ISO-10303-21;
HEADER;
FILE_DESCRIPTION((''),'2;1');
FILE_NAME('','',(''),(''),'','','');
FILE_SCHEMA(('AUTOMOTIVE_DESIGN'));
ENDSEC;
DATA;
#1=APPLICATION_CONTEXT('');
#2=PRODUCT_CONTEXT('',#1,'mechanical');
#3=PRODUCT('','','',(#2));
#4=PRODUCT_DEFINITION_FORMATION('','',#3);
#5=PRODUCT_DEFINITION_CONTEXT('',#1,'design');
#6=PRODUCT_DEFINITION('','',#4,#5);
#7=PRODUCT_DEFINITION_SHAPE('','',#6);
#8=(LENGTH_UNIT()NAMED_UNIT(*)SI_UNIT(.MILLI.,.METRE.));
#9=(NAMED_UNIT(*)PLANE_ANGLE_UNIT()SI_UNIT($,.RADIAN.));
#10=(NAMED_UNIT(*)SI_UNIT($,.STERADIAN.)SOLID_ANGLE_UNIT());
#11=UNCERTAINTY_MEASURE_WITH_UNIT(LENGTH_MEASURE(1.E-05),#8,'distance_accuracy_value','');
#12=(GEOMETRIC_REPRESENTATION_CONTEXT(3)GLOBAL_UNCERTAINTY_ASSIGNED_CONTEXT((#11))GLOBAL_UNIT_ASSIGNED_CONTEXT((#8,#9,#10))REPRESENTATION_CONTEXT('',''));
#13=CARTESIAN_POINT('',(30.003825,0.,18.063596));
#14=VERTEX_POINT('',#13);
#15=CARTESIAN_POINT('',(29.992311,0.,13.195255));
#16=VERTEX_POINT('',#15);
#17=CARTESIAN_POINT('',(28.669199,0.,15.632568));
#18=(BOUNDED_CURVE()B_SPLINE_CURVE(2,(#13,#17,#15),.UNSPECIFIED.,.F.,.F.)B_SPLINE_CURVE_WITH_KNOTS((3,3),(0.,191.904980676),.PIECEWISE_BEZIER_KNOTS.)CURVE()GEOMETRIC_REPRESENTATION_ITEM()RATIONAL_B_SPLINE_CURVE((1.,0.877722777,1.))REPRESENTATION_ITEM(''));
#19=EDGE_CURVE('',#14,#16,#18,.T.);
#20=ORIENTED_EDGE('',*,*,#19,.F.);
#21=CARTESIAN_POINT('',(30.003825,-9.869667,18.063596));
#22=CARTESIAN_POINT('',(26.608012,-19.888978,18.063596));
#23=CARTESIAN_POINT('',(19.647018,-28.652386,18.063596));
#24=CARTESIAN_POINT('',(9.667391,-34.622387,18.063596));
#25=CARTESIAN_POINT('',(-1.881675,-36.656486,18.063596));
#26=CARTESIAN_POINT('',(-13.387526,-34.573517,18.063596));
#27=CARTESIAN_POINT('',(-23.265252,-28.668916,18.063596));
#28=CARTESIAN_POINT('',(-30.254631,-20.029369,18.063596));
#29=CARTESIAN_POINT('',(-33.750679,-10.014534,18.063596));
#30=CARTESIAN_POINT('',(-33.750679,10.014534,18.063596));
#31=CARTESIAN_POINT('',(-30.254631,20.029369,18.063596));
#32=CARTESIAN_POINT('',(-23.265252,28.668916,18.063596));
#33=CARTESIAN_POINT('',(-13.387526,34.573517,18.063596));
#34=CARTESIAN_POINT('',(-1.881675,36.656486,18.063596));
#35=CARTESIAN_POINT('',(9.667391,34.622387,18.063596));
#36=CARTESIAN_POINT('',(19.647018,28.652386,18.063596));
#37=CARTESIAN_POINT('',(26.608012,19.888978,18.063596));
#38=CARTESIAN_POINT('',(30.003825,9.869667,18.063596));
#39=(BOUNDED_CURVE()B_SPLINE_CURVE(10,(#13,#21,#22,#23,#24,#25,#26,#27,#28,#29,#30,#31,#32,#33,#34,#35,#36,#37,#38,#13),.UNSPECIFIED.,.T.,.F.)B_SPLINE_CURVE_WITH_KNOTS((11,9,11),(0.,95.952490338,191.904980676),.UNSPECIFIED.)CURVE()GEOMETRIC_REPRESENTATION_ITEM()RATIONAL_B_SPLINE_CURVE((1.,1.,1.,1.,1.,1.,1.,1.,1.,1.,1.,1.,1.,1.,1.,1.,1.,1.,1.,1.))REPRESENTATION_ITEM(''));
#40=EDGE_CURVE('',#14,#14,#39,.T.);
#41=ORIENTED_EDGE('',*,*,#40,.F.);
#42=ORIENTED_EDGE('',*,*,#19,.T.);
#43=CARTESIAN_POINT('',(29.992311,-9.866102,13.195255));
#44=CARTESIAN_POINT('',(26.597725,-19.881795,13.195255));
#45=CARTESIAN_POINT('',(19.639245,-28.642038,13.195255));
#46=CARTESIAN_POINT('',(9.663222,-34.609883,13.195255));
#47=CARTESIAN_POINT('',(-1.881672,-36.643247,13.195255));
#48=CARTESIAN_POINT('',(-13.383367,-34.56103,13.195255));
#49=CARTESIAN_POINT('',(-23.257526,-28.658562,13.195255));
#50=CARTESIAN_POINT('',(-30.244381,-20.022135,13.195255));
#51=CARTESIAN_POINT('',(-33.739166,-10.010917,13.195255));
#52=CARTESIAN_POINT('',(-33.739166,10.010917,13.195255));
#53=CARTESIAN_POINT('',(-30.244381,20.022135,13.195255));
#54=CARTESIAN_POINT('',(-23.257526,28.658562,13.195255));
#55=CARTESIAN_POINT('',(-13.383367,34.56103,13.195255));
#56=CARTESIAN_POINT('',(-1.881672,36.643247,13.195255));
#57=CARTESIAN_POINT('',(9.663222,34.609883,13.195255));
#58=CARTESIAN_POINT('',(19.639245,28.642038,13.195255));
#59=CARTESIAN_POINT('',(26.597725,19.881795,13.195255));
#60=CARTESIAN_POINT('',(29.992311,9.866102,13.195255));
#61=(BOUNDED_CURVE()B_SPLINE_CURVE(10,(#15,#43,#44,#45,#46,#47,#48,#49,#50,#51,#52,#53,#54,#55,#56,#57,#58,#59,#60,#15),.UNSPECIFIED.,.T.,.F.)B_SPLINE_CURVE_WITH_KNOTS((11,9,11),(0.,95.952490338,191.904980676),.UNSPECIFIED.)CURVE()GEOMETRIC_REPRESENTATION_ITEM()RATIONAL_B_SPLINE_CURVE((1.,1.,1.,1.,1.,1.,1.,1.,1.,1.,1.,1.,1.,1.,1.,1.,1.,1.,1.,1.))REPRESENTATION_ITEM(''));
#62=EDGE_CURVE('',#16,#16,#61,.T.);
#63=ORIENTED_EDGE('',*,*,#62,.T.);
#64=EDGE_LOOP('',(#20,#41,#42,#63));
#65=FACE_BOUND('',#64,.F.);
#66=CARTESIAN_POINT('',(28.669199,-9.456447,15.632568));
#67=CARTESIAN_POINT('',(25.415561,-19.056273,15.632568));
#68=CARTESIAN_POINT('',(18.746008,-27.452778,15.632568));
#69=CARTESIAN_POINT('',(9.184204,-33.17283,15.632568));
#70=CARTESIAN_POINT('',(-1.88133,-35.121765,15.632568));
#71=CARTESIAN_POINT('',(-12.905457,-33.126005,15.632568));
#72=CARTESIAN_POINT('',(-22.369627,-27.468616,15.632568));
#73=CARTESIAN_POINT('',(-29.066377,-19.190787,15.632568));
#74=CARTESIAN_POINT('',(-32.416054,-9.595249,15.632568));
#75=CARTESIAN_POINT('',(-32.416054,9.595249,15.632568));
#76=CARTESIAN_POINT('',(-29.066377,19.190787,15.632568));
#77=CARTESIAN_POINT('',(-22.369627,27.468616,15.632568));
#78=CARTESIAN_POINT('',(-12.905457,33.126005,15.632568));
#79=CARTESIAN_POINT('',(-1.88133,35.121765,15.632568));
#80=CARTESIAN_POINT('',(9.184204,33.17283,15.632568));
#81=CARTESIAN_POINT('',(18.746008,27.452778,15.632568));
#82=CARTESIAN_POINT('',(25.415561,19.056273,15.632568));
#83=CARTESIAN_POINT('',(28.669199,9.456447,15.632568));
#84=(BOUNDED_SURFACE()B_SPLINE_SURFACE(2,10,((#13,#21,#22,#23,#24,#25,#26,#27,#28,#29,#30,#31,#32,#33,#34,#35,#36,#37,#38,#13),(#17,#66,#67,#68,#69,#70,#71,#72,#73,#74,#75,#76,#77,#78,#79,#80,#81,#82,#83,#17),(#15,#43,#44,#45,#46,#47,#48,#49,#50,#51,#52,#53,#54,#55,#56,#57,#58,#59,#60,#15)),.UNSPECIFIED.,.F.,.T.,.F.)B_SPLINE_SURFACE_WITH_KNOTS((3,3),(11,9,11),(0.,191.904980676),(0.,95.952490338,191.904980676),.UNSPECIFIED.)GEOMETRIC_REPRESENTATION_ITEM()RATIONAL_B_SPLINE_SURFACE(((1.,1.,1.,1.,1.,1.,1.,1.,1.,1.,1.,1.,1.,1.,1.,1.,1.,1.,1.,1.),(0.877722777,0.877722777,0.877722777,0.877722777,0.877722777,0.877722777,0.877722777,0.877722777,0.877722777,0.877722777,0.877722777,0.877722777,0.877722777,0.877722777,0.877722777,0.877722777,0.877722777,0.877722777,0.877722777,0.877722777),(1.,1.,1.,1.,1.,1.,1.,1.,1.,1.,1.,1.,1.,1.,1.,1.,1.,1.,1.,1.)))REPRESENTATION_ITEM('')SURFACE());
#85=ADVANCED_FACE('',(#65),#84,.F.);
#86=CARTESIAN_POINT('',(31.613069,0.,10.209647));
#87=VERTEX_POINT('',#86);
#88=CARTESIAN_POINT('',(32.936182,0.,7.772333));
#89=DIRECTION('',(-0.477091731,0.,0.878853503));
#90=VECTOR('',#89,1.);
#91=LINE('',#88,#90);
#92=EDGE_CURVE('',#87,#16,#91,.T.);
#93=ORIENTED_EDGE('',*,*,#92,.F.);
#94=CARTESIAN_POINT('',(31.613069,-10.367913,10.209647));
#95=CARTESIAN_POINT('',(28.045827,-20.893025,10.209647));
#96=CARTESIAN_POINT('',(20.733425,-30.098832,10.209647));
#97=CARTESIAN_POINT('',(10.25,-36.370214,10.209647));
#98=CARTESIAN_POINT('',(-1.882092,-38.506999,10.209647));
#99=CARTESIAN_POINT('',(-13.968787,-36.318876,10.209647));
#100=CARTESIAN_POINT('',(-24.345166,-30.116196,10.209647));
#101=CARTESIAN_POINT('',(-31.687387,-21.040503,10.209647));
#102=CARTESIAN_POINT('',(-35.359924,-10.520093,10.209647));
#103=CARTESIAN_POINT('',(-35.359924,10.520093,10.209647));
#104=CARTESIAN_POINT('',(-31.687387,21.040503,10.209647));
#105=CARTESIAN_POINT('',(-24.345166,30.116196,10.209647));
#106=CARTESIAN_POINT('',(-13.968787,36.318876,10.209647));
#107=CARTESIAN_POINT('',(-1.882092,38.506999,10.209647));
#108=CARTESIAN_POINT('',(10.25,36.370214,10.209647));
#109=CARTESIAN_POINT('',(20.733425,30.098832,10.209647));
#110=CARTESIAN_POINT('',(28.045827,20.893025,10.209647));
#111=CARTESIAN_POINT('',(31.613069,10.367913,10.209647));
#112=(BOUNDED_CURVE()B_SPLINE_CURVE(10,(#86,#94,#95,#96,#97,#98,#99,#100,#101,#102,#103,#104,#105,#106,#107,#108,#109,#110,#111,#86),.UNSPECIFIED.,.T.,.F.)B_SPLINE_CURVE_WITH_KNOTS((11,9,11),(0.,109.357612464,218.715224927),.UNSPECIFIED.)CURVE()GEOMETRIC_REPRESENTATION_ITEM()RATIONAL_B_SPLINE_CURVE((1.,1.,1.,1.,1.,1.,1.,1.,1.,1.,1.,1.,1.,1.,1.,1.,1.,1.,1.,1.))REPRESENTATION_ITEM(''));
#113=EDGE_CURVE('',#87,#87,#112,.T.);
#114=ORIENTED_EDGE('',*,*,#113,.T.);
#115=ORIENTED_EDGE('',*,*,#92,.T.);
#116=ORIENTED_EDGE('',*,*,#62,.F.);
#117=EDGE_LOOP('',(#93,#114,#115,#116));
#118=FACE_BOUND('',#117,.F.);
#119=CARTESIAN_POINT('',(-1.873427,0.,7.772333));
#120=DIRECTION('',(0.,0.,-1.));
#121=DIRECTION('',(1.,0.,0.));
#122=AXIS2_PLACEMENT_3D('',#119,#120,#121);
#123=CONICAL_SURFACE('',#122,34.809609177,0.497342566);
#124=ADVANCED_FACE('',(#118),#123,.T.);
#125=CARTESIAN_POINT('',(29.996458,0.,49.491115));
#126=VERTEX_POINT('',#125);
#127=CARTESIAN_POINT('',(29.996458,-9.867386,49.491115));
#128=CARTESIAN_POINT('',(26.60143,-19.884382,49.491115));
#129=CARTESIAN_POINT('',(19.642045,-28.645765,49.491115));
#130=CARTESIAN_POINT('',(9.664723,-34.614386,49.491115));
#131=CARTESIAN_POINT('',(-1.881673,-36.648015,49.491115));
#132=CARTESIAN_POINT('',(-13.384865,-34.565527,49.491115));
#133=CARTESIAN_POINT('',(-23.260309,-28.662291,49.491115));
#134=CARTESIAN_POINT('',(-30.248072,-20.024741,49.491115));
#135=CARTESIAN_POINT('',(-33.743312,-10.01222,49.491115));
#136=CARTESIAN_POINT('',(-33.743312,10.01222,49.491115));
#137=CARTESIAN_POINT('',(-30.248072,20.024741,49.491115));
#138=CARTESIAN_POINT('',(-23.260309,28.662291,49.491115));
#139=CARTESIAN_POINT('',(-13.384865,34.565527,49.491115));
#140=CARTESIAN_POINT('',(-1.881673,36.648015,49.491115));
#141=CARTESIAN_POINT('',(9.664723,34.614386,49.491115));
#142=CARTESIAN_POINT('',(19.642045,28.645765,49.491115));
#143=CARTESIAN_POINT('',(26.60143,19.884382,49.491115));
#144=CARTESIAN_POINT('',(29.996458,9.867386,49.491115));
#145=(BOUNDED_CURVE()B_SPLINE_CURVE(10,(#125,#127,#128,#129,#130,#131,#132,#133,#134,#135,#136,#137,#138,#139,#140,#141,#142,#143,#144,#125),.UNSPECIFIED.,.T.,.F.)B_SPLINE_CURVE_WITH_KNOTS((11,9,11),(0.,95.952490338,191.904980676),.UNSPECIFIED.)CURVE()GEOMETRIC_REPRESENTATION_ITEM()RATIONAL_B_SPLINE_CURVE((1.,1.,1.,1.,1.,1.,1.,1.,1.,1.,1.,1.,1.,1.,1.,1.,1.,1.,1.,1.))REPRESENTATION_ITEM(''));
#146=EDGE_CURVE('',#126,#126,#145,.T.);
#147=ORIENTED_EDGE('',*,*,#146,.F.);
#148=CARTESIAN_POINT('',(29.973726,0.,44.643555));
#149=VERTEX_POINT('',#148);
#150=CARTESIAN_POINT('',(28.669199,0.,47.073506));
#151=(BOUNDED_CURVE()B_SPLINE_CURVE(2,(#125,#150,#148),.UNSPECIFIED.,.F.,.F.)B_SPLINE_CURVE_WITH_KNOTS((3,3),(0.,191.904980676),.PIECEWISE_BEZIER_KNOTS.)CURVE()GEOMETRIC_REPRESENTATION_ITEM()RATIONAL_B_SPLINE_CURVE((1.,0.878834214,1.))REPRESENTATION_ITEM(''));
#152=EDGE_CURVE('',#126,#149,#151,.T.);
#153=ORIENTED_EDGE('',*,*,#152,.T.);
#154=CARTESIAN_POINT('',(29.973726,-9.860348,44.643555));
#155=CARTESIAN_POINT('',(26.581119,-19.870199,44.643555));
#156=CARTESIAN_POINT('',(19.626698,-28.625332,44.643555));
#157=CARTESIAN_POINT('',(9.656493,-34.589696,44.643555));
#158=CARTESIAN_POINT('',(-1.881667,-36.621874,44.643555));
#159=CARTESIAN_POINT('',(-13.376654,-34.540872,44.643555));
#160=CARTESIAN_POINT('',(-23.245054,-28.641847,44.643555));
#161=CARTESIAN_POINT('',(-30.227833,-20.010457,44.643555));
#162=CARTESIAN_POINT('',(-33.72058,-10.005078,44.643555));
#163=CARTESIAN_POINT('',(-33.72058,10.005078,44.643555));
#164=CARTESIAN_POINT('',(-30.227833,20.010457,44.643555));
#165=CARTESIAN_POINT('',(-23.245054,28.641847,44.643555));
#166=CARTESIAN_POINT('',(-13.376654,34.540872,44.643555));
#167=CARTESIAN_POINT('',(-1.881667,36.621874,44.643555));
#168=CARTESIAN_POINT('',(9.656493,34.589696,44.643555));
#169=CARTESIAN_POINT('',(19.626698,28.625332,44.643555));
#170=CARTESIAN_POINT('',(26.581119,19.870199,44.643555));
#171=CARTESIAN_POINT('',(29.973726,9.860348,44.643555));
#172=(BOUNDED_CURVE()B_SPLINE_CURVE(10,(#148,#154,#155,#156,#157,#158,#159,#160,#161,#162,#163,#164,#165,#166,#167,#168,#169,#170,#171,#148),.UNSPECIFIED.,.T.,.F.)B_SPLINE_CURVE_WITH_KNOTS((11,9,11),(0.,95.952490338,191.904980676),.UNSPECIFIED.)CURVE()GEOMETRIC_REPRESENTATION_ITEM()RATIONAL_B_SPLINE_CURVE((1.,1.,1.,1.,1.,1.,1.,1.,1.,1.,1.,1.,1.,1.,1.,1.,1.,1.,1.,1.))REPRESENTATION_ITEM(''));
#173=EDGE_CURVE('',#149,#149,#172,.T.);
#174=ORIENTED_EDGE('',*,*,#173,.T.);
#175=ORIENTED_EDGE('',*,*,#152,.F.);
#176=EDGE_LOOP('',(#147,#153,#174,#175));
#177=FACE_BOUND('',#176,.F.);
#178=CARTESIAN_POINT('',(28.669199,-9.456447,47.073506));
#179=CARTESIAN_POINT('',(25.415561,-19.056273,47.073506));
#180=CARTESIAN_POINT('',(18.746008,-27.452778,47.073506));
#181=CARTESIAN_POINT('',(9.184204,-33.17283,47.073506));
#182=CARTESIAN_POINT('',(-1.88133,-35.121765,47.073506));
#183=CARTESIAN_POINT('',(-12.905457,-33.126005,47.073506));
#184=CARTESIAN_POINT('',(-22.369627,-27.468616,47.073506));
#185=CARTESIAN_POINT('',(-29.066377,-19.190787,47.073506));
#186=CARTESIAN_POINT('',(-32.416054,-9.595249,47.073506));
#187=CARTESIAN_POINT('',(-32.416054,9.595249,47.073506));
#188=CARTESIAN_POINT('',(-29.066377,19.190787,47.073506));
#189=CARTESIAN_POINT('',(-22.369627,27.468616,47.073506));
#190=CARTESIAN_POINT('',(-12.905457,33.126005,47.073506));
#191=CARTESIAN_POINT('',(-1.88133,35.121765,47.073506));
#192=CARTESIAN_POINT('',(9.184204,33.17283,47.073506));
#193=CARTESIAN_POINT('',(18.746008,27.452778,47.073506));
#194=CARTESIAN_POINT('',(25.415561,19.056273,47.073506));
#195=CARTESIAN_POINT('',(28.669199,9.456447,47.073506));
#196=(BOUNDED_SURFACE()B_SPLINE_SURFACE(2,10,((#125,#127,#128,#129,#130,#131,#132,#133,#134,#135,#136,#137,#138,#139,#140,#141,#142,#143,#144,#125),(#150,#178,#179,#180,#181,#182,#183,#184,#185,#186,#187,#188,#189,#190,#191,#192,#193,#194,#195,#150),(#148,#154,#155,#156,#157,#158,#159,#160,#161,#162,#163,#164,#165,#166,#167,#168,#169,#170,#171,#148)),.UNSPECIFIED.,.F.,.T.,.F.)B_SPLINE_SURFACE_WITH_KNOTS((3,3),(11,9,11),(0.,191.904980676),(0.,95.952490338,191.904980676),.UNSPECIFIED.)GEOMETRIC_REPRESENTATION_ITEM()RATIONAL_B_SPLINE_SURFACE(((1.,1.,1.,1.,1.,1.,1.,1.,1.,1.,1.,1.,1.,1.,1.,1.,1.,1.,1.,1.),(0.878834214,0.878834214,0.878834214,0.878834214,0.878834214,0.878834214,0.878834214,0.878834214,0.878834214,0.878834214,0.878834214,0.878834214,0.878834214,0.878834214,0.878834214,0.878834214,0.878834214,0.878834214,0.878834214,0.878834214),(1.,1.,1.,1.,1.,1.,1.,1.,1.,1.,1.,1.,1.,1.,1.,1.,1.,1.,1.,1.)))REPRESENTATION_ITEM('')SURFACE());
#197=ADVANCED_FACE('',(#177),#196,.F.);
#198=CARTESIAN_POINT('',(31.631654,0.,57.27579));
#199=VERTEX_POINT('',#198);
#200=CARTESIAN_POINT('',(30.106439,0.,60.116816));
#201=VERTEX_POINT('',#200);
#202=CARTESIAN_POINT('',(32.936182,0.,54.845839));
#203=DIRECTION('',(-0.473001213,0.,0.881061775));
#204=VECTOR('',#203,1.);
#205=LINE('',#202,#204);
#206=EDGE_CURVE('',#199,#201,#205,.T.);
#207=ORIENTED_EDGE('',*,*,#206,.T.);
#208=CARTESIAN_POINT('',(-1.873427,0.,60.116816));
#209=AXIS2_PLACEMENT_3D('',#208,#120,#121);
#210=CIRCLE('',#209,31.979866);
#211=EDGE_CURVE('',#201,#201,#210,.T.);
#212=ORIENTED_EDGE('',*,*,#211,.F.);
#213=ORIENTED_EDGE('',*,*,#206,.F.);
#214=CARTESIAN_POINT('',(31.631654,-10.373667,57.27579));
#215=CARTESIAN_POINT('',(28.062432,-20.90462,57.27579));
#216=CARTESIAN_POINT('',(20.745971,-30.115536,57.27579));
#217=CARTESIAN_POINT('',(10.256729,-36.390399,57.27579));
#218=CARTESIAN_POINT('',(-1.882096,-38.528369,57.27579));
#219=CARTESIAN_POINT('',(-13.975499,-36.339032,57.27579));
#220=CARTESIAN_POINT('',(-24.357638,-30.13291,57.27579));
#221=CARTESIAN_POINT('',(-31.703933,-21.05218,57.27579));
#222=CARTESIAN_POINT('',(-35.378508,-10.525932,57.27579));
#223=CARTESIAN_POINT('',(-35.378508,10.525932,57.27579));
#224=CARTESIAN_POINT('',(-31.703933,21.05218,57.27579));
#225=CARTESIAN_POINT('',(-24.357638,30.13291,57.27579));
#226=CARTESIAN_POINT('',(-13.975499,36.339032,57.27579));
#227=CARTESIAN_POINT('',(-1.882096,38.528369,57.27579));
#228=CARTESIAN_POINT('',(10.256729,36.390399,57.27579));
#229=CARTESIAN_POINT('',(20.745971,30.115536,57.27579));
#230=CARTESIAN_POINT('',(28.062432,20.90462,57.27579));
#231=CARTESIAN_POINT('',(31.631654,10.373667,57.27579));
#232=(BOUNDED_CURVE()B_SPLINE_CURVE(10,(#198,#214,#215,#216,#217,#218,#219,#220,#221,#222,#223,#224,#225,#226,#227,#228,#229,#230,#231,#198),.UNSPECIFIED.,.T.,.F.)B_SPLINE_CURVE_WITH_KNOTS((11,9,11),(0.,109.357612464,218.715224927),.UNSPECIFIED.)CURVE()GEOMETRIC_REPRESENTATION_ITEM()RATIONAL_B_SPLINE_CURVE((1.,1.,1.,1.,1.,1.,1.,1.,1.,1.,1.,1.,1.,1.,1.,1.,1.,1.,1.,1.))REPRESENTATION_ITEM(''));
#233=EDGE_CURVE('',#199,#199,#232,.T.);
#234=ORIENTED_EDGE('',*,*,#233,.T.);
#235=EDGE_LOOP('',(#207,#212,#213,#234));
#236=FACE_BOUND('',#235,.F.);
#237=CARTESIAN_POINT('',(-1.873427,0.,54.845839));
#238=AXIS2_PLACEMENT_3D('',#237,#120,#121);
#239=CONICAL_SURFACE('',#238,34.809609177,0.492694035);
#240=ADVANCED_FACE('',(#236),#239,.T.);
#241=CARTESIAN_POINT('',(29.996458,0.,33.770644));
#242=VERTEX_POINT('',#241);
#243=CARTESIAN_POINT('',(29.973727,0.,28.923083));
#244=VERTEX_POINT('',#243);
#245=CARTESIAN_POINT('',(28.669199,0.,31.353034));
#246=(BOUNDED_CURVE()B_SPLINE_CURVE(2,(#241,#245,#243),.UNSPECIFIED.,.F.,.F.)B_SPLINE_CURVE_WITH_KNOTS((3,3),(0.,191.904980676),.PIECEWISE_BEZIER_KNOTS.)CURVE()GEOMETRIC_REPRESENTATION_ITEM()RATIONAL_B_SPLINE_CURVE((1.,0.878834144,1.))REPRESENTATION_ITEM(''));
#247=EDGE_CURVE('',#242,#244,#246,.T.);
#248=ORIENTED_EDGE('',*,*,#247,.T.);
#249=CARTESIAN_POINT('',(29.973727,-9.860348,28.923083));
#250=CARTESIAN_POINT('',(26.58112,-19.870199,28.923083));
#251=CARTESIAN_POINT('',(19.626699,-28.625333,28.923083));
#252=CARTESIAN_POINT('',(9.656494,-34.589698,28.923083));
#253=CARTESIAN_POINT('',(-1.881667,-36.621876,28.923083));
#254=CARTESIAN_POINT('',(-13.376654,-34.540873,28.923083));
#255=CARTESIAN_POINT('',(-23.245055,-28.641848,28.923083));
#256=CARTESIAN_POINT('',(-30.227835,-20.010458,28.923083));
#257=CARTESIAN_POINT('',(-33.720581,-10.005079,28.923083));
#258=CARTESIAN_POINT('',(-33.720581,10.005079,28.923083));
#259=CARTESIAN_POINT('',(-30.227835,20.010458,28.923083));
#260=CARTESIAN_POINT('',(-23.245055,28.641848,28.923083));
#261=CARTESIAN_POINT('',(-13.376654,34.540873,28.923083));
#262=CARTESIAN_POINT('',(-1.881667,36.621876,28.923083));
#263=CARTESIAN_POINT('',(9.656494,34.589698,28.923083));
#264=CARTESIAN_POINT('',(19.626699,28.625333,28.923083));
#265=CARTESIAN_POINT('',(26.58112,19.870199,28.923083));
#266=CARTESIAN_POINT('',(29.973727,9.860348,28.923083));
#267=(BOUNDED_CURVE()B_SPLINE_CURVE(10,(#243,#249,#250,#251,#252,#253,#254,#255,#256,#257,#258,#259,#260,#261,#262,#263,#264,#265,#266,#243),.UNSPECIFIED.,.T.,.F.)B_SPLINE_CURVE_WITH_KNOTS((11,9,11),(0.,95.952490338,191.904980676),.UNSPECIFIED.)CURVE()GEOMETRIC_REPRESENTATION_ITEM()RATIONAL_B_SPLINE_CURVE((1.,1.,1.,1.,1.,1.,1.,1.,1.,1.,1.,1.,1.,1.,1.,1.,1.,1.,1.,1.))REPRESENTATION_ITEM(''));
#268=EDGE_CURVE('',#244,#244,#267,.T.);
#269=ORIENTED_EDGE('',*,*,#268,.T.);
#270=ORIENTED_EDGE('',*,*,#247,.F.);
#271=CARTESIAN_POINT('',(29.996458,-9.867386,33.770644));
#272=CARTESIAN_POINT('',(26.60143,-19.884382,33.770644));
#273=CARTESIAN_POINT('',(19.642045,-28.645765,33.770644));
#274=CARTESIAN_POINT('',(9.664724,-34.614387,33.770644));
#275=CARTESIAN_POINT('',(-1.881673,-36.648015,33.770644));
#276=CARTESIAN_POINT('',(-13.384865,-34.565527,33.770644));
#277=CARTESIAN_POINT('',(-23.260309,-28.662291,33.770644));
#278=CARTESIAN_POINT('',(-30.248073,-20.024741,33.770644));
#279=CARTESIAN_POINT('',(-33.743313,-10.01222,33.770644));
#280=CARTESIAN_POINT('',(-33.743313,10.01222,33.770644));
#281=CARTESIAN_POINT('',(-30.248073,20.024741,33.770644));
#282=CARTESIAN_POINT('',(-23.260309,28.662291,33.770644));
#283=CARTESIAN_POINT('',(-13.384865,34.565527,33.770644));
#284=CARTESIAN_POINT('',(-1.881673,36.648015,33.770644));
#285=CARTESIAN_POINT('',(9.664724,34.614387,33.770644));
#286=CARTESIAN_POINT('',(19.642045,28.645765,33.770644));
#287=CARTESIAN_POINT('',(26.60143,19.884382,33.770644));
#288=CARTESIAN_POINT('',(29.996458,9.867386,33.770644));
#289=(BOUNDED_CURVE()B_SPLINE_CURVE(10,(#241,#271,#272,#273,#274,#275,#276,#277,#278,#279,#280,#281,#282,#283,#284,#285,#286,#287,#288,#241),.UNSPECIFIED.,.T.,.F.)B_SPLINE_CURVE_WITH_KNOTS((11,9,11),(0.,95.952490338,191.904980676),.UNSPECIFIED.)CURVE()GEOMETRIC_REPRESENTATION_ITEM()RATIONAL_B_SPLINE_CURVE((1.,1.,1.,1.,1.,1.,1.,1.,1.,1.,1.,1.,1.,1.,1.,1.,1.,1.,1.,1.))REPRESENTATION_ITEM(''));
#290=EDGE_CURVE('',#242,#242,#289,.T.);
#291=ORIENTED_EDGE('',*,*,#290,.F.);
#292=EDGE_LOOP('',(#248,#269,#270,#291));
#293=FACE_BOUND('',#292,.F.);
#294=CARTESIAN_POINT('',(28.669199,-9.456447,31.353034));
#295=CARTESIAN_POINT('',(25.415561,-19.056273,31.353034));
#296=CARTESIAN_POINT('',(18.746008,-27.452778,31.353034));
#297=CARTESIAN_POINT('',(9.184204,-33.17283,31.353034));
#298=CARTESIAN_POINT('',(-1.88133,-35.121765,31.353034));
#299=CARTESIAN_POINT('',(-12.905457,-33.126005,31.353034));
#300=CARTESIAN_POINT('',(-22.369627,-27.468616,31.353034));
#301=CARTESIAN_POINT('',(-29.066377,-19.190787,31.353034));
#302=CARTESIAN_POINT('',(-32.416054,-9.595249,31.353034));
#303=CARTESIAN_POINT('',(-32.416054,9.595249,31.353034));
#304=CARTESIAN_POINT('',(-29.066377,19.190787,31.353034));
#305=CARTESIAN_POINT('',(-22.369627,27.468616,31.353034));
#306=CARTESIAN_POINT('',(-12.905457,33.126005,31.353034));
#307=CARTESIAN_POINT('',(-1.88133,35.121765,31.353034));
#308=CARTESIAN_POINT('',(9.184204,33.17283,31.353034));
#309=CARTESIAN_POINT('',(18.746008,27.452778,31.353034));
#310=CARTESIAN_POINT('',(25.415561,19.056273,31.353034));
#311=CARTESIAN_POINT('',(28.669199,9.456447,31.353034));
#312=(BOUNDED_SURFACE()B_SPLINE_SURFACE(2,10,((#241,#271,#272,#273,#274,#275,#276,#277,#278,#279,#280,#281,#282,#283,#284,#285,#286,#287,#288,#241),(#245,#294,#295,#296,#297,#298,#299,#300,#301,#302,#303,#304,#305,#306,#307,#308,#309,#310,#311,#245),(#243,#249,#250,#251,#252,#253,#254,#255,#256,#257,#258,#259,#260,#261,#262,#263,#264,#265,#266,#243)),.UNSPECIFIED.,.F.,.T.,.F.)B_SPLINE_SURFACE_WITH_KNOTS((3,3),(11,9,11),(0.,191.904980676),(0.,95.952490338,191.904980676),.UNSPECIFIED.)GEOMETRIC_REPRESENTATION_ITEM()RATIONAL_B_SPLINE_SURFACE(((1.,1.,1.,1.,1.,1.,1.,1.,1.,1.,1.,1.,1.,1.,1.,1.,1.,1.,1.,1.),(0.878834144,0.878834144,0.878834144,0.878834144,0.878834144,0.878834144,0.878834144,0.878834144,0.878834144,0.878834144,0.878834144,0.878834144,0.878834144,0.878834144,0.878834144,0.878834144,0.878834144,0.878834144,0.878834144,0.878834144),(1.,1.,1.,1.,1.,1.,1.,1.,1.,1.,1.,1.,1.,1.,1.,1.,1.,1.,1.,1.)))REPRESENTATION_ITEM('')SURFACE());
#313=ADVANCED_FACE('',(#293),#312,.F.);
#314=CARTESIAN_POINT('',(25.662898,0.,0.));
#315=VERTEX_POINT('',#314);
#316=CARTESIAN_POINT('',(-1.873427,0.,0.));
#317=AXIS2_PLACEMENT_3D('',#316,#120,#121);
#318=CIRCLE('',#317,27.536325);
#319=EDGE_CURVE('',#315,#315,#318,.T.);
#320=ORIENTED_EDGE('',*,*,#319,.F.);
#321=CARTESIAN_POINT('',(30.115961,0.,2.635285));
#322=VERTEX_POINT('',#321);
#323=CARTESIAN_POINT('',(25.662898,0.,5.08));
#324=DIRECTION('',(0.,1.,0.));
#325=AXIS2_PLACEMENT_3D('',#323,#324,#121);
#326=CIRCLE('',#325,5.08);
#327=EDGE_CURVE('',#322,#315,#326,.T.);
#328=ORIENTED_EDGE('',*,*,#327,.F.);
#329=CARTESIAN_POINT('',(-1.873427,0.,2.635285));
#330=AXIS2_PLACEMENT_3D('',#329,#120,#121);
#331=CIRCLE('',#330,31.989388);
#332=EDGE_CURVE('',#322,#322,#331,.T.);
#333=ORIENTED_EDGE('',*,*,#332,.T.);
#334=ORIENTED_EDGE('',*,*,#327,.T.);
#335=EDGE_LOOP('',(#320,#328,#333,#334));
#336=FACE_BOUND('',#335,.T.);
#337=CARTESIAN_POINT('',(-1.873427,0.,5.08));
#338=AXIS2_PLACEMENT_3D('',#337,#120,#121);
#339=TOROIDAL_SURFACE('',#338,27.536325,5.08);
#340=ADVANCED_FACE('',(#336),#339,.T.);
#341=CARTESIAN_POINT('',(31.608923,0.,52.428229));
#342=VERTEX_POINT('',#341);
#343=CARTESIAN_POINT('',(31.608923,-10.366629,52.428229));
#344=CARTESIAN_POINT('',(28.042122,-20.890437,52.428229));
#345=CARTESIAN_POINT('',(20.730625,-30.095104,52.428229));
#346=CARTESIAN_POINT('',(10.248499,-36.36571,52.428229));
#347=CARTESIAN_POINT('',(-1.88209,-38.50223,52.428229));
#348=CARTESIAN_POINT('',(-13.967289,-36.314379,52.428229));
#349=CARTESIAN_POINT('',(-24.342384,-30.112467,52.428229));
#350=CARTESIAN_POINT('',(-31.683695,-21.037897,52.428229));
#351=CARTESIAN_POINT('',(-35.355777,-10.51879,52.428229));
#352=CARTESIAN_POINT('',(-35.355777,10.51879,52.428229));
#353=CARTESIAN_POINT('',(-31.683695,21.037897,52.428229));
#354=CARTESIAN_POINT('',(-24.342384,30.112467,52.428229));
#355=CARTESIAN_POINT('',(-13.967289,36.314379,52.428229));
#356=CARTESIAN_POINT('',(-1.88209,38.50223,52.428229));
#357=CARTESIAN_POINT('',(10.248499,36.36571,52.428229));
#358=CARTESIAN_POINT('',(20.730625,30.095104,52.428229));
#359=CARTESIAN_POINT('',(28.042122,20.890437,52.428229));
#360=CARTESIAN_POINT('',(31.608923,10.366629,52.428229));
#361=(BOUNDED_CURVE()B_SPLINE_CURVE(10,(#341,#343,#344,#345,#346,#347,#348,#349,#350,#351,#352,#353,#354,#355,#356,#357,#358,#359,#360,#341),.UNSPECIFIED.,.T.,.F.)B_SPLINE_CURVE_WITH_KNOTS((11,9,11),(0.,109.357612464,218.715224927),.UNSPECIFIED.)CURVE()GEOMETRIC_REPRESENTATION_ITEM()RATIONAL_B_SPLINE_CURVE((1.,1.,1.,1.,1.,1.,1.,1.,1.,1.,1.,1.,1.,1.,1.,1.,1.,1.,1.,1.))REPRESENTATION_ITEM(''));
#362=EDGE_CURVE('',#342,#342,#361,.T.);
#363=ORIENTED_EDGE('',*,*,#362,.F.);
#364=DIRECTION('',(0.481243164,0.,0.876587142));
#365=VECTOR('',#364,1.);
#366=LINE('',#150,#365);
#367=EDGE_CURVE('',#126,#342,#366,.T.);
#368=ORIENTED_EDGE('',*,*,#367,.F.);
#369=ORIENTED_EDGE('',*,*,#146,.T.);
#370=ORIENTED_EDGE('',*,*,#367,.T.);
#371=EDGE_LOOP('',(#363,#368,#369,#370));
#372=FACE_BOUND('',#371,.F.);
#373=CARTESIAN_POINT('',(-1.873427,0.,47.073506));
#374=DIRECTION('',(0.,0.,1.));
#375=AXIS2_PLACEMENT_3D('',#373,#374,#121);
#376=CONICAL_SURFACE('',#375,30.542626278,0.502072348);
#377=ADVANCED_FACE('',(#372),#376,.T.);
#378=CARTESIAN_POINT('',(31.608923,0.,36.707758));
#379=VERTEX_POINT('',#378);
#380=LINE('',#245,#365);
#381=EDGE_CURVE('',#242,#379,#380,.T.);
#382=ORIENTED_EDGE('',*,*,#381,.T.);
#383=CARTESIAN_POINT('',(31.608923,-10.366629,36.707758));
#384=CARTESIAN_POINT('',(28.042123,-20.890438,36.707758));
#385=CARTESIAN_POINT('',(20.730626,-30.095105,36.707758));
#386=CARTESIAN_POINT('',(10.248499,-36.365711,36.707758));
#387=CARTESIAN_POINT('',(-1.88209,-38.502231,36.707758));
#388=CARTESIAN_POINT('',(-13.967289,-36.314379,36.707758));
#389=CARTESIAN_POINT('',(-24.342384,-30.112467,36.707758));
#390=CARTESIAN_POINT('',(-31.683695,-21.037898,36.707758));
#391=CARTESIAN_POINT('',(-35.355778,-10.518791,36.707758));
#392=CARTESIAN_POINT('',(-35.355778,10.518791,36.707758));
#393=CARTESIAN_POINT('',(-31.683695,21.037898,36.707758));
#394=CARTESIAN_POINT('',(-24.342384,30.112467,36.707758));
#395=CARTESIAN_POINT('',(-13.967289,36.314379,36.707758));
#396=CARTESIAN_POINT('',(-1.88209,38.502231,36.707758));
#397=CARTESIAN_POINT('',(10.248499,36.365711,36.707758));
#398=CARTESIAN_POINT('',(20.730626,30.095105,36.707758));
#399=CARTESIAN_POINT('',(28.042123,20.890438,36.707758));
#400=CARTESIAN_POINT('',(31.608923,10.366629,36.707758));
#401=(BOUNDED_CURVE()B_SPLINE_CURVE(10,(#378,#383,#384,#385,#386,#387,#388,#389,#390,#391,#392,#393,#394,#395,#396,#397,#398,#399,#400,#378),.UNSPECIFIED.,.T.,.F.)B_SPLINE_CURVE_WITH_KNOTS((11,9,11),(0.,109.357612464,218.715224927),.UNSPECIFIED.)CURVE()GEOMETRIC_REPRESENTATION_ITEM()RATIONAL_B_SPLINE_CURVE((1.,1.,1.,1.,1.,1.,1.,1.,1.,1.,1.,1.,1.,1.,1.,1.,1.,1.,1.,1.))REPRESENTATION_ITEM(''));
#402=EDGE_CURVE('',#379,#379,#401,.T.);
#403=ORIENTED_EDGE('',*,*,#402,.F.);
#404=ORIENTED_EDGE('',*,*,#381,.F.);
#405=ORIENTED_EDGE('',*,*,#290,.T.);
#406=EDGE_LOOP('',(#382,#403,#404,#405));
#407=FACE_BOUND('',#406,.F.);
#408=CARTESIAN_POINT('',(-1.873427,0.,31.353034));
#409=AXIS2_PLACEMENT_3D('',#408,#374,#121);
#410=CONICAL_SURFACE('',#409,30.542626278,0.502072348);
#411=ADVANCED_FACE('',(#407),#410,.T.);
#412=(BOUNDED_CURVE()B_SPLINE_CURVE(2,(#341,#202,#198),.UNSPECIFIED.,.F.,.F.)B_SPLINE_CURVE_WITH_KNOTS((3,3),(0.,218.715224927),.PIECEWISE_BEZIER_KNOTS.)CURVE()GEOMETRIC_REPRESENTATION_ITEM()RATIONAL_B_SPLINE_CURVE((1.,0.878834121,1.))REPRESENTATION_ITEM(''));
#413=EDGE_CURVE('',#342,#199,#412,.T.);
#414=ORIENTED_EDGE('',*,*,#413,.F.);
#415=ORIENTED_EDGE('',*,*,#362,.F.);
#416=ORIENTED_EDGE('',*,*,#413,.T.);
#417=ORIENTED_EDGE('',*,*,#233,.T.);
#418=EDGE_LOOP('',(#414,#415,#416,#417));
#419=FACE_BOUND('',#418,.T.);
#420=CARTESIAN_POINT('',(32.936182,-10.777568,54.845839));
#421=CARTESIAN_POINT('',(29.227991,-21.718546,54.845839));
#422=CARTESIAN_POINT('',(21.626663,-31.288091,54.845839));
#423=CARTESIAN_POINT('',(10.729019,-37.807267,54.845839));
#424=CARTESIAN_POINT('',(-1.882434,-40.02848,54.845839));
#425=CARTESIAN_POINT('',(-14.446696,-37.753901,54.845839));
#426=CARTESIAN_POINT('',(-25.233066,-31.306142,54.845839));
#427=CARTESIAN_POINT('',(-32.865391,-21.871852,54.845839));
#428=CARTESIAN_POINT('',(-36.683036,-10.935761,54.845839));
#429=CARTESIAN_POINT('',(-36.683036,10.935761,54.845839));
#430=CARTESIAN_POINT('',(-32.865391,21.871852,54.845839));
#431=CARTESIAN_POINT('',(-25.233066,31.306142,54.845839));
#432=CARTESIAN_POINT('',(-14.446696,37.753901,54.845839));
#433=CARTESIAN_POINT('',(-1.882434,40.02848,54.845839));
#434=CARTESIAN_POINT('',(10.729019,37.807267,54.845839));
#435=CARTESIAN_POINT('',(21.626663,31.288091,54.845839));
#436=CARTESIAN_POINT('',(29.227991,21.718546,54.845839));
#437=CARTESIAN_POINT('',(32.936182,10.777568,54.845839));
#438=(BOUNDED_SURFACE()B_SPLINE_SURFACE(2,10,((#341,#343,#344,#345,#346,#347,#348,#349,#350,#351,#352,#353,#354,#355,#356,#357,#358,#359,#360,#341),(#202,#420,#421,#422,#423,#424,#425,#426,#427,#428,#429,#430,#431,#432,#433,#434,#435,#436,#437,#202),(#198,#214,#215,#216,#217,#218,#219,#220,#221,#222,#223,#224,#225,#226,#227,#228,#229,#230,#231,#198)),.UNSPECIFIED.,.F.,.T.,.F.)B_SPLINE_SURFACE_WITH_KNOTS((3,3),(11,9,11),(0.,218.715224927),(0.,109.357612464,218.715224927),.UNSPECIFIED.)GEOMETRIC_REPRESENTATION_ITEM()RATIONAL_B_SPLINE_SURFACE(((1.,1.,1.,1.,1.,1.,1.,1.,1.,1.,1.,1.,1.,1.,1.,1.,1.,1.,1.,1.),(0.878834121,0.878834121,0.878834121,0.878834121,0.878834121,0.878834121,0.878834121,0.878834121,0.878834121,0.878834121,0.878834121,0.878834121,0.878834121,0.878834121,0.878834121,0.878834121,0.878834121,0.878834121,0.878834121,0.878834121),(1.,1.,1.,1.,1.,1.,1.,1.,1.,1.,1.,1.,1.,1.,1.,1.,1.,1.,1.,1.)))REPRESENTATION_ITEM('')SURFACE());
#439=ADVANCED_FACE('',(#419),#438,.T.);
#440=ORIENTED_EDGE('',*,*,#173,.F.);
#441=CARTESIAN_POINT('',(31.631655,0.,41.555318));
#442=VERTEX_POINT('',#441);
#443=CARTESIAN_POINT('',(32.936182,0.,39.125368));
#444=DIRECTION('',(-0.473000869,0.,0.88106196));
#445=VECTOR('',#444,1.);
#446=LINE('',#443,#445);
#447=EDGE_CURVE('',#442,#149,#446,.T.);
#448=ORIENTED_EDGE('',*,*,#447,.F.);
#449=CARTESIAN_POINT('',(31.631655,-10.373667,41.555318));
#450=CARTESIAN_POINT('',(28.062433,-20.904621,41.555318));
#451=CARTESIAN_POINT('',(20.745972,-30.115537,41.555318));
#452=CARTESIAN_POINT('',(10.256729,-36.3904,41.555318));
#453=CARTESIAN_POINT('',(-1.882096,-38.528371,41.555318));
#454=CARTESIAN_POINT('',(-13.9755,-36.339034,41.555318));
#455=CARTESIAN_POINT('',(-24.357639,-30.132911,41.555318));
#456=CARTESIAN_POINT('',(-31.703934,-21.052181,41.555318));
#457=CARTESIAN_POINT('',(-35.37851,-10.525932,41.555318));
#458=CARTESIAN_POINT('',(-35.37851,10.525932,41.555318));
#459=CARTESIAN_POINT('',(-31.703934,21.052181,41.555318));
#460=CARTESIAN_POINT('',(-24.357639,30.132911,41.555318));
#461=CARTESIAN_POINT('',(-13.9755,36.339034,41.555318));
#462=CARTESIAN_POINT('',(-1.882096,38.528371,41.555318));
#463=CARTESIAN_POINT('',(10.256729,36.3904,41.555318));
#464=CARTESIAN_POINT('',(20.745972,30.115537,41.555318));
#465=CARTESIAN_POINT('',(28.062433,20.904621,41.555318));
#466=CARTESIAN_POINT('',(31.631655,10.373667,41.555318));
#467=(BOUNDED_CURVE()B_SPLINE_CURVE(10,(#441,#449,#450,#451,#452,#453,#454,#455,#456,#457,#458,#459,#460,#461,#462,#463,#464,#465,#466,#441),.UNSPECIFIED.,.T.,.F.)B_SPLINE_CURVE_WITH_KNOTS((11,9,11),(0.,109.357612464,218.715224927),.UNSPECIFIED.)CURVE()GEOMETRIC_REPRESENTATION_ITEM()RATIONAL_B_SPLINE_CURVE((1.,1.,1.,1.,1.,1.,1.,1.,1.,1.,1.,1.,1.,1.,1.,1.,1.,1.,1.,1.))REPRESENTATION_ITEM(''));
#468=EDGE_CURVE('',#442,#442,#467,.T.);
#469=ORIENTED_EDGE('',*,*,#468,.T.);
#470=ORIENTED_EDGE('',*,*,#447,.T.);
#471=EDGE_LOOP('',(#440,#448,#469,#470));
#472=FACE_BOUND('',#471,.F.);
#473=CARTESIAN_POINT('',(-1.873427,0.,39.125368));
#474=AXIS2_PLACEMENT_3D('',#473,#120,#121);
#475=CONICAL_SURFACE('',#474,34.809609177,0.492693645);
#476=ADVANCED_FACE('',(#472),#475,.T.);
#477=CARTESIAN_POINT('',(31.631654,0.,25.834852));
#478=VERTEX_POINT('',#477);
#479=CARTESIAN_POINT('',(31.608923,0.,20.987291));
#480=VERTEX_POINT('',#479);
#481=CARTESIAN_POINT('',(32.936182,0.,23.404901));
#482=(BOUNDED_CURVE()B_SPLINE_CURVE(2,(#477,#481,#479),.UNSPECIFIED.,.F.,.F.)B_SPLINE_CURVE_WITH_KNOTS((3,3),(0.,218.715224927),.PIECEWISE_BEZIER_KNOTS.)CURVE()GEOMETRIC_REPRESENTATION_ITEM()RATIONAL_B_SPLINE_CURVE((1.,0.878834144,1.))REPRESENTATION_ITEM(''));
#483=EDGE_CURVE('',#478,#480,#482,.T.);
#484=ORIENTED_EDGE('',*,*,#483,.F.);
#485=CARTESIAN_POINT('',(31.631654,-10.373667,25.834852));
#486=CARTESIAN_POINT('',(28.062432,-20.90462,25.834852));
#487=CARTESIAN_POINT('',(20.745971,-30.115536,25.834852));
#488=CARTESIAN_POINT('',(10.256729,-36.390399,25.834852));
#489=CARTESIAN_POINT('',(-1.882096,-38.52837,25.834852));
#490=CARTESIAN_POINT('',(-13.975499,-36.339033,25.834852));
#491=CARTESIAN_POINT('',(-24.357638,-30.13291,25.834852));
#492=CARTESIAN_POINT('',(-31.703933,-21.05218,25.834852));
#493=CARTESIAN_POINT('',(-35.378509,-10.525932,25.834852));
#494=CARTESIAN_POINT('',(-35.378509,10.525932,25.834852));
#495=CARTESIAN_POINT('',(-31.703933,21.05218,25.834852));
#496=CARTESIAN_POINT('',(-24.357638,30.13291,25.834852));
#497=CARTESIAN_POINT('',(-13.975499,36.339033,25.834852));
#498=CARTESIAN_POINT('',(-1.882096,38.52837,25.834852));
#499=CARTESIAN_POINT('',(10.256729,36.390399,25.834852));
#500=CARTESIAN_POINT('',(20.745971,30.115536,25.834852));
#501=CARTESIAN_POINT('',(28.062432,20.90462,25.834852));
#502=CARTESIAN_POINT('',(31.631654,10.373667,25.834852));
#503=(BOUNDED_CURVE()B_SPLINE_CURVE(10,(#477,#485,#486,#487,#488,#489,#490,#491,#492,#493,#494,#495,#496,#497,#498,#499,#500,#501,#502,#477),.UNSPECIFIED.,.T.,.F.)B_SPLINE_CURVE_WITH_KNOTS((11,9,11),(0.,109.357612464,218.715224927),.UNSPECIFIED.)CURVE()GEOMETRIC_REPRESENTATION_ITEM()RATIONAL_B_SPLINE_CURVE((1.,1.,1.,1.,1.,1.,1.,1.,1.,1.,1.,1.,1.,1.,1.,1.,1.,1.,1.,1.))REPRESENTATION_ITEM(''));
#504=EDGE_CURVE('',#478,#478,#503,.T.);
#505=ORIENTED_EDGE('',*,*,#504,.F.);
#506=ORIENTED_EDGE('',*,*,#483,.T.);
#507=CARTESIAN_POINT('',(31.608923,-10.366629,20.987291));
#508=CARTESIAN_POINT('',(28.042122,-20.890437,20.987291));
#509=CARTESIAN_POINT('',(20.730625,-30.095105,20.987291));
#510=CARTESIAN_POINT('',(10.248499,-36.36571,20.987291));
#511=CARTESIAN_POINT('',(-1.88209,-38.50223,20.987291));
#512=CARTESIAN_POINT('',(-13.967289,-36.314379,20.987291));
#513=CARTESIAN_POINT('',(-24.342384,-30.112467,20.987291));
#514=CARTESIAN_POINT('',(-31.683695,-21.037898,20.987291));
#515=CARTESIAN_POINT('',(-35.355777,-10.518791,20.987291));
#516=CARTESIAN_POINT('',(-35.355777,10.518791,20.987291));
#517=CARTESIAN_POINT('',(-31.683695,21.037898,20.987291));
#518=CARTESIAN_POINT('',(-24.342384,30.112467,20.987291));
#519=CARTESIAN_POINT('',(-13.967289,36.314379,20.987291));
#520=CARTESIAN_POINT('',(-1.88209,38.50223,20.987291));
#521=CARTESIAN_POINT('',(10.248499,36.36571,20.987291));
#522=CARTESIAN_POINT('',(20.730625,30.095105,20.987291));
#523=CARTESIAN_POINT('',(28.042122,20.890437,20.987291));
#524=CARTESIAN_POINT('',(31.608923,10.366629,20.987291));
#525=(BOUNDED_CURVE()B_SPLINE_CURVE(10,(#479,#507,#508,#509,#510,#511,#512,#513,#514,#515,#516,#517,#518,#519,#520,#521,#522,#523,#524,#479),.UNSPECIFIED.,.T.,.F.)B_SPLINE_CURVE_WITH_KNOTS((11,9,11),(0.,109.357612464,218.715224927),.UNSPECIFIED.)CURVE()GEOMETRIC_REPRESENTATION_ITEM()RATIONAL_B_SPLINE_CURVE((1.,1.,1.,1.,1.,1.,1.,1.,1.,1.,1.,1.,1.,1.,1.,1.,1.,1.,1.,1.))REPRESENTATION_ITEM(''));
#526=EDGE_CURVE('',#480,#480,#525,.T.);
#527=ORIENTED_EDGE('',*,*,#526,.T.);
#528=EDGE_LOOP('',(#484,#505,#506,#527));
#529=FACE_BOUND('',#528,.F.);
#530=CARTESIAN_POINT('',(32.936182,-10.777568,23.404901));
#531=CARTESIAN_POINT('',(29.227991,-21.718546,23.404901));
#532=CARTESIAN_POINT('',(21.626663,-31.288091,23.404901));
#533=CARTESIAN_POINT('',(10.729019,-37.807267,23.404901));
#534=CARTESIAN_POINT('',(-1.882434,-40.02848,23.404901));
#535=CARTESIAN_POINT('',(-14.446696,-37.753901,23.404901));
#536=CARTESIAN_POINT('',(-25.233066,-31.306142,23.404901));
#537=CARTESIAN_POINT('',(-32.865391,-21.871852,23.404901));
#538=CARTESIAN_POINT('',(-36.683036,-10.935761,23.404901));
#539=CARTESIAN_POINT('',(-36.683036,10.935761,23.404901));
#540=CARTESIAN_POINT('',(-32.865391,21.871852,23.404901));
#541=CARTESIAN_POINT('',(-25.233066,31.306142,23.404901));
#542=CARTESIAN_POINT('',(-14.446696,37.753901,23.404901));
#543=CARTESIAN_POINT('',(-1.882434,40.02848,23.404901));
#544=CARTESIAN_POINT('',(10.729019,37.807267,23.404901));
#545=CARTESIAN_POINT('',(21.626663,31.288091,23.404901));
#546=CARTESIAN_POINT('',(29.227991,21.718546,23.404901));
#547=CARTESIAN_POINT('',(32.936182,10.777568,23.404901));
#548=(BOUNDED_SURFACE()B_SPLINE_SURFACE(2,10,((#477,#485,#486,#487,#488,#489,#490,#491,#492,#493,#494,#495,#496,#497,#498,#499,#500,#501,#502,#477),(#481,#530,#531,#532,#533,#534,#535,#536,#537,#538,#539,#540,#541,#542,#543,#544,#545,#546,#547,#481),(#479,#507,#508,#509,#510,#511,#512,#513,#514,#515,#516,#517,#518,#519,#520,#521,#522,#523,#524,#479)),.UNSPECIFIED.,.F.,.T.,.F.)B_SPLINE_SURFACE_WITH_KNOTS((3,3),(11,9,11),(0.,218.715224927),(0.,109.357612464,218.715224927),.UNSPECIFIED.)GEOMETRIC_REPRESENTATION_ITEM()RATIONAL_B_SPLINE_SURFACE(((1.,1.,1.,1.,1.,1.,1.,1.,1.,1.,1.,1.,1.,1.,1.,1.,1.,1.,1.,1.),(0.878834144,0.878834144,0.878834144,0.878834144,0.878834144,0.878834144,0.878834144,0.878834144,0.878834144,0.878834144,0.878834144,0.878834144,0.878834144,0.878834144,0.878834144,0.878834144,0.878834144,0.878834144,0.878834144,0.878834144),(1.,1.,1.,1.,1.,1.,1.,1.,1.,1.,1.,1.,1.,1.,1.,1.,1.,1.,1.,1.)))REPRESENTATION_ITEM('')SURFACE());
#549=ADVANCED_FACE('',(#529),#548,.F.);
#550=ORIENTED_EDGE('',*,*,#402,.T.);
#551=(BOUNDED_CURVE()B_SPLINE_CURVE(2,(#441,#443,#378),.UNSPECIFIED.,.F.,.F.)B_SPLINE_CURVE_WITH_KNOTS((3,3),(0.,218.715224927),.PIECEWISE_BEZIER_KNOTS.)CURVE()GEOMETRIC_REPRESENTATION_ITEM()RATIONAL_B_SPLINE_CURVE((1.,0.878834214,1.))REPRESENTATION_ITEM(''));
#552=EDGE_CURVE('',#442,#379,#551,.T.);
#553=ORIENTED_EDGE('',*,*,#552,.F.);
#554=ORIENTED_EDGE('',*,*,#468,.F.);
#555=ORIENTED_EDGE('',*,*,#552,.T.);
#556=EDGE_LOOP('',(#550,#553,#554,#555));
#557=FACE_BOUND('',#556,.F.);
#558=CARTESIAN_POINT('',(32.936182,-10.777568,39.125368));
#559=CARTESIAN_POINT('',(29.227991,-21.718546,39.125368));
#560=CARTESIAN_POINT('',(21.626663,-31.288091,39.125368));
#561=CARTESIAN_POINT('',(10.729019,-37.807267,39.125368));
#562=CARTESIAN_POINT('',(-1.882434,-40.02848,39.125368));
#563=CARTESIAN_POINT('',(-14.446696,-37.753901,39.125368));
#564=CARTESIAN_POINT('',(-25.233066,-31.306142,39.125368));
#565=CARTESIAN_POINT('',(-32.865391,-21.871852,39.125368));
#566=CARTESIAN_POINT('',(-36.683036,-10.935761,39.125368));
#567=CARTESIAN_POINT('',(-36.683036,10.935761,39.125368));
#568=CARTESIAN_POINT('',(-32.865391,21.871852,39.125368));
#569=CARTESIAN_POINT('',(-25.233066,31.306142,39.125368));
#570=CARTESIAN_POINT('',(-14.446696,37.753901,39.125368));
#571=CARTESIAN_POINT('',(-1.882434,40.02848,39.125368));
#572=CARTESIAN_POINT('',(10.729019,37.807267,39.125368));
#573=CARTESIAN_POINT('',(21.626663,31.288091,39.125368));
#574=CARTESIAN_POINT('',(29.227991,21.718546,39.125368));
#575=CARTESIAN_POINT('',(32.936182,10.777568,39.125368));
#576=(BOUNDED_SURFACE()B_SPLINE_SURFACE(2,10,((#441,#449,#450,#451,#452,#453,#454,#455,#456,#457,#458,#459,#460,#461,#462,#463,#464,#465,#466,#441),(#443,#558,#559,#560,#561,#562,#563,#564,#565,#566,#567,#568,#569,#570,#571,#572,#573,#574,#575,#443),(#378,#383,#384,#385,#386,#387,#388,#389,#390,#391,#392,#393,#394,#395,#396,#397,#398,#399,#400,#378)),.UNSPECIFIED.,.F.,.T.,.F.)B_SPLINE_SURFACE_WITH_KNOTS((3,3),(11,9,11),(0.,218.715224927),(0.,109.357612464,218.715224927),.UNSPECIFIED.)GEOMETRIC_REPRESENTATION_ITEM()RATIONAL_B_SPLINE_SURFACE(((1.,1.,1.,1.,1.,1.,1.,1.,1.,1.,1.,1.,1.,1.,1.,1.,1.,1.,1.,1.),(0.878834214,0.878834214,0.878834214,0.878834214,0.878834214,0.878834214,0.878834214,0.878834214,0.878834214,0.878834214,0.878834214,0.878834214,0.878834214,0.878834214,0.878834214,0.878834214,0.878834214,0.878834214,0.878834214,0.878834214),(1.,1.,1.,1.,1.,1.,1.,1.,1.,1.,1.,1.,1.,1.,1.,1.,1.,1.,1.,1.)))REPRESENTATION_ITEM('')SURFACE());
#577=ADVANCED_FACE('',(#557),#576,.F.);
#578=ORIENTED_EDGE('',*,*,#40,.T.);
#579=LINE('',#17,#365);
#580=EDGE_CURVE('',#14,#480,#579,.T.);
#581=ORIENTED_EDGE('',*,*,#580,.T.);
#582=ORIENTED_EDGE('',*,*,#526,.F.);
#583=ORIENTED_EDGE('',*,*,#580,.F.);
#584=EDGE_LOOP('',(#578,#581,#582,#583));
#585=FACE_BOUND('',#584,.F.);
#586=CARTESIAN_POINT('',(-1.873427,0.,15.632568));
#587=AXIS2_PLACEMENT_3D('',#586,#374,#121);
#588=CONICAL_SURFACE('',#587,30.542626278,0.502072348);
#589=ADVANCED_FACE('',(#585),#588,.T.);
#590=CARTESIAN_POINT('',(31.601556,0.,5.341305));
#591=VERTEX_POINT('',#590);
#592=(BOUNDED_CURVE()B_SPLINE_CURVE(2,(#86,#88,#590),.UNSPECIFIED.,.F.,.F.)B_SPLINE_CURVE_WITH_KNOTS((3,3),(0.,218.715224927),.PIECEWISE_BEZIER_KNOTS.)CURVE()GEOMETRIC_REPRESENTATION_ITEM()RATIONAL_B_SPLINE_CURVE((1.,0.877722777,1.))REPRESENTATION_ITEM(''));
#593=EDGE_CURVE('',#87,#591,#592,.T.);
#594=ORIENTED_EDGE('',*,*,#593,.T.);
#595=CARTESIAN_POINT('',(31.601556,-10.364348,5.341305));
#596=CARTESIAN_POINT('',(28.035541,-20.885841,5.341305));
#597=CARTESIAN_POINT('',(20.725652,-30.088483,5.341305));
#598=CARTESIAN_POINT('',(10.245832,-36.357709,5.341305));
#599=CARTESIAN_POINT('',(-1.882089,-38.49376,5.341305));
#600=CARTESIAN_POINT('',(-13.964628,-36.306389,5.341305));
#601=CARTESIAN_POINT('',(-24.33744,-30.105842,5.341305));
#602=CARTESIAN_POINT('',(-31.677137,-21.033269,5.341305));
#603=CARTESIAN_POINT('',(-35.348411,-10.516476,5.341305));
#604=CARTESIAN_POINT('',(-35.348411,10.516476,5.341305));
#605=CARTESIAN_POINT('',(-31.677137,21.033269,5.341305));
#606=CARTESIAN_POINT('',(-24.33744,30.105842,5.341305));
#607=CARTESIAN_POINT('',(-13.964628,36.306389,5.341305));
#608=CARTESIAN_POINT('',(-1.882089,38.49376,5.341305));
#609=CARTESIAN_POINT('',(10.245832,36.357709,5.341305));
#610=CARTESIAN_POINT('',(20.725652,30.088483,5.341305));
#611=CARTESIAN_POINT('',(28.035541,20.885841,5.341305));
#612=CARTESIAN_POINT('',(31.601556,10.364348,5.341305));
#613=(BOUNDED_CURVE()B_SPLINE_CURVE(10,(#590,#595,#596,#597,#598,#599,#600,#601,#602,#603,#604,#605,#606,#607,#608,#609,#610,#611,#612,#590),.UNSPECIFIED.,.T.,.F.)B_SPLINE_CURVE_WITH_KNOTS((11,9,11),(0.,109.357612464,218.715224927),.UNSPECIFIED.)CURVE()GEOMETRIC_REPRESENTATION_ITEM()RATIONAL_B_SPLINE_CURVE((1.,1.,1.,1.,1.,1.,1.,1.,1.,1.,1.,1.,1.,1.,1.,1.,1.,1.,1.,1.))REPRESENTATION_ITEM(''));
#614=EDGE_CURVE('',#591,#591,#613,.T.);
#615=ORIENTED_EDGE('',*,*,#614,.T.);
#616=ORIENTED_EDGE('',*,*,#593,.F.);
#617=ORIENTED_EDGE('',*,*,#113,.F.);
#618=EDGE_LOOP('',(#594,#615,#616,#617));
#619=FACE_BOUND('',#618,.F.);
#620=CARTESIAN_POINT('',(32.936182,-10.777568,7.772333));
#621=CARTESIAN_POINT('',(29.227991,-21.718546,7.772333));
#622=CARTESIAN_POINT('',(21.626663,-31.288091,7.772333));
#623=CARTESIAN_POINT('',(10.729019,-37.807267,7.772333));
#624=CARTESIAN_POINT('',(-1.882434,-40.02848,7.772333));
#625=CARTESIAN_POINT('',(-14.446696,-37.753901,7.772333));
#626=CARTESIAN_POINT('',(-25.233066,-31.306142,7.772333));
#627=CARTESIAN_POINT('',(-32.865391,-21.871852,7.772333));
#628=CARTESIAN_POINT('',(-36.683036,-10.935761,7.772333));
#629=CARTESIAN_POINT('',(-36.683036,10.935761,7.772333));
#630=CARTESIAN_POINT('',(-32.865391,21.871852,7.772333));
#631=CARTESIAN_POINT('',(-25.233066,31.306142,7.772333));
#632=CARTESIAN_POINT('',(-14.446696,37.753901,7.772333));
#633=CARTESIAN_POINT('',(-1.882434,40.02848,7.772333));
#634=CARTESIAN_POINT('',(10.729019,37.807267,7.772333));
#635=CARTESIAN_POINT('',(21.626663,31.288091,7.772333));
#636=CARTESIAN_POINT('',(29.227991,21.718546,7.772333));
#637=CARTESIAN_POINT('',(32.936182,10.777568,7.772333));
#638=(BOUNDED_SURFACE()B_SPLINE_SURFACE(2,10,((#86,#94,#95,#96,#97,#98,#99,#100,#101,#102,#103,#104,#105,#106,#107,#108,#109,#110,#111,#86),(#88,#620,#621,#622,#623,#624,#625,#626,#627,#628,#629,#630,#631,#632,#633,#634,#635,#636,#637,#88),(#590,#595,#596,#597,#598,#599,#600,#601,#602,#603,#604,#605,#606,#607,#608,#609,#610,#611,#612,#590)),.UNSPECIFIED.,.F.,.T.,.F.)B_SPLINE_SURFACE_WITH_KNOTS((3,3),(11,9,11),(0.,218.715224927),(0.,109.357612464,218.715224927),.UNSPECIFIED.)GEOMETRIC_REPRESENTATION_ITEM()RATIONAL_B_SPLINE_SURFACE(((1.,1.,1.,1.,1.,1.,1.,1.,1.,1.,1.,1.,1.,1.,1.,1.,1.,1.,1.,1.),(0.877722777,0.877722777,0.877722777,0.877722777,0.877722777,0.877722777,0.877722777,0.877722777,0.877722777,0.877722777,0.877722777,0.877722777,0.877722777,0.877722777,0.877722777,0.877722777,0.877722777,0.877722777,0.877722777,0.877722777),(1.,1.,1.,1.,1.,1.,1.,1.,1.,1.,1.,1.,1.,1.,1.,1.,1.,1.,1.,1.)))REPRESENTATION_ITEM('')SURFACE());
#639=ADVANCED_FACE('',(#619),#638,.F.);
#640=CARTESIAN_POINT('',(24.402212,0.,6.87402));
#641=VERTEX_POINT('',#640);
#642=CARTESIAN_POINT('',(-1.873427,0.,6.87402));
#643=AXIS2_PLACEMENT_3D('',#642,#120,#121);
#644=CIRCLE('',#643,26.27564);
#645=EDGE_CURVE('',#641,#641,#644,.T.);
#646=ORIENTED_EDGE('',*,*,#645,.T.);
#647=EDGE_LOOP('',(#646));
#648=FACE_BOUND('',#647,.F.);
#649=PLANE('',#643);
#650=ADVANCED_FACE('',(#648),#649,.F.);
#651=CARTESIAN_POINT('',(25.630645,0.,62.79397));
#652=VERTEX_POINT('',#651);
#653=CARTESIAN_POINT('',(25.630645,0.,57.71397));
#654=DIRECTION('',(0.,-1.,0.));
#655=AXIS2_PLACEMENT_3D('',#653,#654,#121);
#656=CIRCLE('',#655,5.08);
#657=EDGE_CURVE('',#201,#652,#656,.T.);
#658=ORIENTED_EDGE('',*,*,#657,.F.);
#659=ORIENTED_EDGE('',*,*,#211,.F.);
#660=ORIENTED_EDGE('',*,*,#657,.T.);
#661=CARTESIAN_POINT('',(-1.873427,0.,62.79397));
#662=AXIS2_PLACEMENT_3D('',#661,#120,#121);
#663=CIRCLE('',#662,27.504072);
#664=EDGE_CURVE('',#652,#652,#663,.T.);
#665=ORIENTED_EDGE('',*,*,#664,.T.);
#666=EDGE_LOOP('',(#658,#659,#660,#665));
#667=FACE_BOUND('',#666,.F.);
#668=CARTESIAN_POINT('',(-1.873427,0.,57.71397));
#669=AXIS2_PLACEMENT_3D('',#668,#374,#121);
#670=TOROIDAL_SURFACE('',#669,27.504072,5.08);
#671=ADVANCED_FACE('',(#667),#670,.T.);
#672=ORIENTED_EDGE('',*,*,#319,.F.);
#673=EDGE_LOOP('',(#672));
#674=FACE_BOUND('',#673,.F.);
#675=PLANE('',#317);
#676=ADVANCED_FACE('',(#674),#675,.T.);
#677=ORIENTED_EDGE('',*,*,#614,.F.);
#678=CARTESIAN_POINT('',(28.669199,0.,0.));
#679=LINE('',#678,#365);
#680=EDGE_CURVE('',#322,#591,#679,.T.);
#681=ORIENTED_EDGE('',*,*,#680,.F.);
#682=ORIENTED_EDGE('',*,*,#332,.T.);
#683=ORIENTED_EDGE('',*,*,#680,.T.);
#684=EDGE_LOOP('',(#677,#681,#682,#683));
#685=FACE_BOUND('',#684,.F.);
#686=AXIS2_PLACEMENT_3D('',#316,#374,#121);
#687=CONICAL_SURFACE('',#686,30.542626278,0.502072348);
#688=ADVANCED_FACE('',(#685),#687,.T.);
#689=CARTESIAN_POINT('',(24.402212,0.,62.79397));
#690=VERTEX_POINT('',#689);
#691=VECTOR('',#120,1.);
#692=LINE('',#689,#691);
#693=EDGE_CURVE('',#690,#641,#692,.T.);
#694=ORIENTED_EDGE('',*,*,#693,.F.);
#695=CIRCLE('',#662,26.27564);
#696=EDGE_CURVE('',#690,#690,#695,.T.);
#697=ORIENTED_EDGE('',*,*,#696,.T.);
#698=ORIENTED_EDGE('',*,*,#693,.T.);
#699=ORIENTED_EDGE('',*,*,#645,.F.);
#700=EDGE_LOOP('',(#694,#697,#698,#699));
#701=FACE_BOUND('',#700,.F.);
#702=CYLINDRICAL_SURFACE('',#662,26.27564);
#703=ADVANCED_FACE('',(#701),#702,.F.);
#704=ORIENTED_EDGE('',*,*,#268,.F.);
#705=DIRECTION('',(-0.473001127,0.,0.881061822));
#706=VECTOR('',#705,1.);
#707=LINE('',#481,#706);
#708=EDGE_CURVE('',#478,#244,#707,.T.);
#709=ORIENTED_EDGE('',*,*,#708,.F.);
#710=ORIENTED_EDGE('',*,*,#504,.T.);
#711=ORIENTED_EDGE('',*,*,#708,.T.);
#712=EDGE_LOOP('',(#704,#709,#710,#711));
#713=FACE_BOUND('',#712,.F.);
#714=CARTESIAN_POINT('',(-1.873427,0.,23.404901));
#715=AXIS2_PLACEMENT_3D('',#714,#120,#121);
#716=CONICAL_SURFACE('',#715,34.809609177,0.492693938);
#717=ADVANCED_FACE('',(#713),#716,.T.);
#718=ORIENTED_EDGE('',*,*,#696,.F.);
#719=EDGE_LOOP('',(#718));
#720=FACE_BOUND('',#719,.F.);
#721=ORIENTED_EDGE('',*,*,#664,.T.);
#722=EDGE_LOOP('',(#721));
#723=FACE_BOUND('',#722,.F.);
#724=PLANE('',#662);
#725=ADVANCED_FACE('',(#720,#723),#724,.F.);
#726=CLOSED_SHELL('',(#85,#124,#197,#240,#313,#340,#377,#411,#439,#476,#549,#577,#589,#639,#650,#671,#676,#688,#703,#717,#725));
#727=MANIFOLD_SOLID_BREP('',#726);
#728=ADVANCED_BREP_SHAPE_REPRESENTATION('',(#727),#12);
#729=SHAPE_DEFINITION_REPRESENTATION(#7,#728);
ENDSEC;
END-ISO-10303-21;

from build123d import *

# Parameters (mm, degrees)
F2_R = 5.08
F3_R = 5.08
F4_R = 5.08
F5_R = 5.08


with BuildPart() as f1:
    # F0 (on Front) → F1 (revolve)
    with BuildSketch(Plane.XZ):
        Polygon((-1.8734273035, 6.8740202114), (-1.8734273035, 0), (28.669198975, 0), (32.9361818731, 7.7723334543), (28.669198975, 15.6325679272), (32.9361818731, 23.4049013816), (28.669198975, 31.3530340791), (32.9361818731, 39.1253675334), (28.669198975, 47.0735058188), (32.9361818731, 54.8458392732), (28.669198975, 62.793970108), (24.4022123516, 62.793970108), (24.4022123516, 6.8740202114), align=None)
    revolve(axis=Axis((-1.8734273035, 0, 3.4370101057), (0, 0, -1)))

    # F2
    f2_edges = [f1.edges().sort_by_distance(p)[0] for p in [
        (-32.416054, 0, 62.79397),
        (-36.683036, 0, 54.845839),
        (30.80269, 0, 58.819905),
    ]]
    fillet(f2_edges, radius=F2_R)

    # F3
    f3_edges = [f1.edges().sort_by_distance(p)[0] for p in [
        (-36.683036, 0, 39.125368),
        (-32.416054, 0, 47.073506),
        (30.80269, 0, 43.099437),
        (-32.416054, 0, 31.353034),
        (30.80269, 0, 35.239201),
    ]]
    fillet(f3_edges, radius=F3_R)

    # F4
    f4_edges = [f1.edges().sort_by_distance(p)[0] for p in [
        (31.454954, 0, 26.163992),
        (-33.720581, 0, 28.923083),
        (-36.683036, 0, 23.404901),
        (-32.416054, 0, 15.632568),
        (30.80269, 0, 19.518735),
    ]]
    fillet(f4_edges, radius=F4_R)

    # F5
    f5_edges = [f1.edges().sort_by_distance(p)[0] for p in [
        (31.464247, 0, 10.483794),
        (-33.739166, 0, 13.195255),
        (-36.683036, 0, 7.772333),
        (-32.416054, 0, 0),
        (30.80269, 0, 3.886167),
    ]]
    fillet(f5_edges, radius=F5_R)


solid = f1.part
